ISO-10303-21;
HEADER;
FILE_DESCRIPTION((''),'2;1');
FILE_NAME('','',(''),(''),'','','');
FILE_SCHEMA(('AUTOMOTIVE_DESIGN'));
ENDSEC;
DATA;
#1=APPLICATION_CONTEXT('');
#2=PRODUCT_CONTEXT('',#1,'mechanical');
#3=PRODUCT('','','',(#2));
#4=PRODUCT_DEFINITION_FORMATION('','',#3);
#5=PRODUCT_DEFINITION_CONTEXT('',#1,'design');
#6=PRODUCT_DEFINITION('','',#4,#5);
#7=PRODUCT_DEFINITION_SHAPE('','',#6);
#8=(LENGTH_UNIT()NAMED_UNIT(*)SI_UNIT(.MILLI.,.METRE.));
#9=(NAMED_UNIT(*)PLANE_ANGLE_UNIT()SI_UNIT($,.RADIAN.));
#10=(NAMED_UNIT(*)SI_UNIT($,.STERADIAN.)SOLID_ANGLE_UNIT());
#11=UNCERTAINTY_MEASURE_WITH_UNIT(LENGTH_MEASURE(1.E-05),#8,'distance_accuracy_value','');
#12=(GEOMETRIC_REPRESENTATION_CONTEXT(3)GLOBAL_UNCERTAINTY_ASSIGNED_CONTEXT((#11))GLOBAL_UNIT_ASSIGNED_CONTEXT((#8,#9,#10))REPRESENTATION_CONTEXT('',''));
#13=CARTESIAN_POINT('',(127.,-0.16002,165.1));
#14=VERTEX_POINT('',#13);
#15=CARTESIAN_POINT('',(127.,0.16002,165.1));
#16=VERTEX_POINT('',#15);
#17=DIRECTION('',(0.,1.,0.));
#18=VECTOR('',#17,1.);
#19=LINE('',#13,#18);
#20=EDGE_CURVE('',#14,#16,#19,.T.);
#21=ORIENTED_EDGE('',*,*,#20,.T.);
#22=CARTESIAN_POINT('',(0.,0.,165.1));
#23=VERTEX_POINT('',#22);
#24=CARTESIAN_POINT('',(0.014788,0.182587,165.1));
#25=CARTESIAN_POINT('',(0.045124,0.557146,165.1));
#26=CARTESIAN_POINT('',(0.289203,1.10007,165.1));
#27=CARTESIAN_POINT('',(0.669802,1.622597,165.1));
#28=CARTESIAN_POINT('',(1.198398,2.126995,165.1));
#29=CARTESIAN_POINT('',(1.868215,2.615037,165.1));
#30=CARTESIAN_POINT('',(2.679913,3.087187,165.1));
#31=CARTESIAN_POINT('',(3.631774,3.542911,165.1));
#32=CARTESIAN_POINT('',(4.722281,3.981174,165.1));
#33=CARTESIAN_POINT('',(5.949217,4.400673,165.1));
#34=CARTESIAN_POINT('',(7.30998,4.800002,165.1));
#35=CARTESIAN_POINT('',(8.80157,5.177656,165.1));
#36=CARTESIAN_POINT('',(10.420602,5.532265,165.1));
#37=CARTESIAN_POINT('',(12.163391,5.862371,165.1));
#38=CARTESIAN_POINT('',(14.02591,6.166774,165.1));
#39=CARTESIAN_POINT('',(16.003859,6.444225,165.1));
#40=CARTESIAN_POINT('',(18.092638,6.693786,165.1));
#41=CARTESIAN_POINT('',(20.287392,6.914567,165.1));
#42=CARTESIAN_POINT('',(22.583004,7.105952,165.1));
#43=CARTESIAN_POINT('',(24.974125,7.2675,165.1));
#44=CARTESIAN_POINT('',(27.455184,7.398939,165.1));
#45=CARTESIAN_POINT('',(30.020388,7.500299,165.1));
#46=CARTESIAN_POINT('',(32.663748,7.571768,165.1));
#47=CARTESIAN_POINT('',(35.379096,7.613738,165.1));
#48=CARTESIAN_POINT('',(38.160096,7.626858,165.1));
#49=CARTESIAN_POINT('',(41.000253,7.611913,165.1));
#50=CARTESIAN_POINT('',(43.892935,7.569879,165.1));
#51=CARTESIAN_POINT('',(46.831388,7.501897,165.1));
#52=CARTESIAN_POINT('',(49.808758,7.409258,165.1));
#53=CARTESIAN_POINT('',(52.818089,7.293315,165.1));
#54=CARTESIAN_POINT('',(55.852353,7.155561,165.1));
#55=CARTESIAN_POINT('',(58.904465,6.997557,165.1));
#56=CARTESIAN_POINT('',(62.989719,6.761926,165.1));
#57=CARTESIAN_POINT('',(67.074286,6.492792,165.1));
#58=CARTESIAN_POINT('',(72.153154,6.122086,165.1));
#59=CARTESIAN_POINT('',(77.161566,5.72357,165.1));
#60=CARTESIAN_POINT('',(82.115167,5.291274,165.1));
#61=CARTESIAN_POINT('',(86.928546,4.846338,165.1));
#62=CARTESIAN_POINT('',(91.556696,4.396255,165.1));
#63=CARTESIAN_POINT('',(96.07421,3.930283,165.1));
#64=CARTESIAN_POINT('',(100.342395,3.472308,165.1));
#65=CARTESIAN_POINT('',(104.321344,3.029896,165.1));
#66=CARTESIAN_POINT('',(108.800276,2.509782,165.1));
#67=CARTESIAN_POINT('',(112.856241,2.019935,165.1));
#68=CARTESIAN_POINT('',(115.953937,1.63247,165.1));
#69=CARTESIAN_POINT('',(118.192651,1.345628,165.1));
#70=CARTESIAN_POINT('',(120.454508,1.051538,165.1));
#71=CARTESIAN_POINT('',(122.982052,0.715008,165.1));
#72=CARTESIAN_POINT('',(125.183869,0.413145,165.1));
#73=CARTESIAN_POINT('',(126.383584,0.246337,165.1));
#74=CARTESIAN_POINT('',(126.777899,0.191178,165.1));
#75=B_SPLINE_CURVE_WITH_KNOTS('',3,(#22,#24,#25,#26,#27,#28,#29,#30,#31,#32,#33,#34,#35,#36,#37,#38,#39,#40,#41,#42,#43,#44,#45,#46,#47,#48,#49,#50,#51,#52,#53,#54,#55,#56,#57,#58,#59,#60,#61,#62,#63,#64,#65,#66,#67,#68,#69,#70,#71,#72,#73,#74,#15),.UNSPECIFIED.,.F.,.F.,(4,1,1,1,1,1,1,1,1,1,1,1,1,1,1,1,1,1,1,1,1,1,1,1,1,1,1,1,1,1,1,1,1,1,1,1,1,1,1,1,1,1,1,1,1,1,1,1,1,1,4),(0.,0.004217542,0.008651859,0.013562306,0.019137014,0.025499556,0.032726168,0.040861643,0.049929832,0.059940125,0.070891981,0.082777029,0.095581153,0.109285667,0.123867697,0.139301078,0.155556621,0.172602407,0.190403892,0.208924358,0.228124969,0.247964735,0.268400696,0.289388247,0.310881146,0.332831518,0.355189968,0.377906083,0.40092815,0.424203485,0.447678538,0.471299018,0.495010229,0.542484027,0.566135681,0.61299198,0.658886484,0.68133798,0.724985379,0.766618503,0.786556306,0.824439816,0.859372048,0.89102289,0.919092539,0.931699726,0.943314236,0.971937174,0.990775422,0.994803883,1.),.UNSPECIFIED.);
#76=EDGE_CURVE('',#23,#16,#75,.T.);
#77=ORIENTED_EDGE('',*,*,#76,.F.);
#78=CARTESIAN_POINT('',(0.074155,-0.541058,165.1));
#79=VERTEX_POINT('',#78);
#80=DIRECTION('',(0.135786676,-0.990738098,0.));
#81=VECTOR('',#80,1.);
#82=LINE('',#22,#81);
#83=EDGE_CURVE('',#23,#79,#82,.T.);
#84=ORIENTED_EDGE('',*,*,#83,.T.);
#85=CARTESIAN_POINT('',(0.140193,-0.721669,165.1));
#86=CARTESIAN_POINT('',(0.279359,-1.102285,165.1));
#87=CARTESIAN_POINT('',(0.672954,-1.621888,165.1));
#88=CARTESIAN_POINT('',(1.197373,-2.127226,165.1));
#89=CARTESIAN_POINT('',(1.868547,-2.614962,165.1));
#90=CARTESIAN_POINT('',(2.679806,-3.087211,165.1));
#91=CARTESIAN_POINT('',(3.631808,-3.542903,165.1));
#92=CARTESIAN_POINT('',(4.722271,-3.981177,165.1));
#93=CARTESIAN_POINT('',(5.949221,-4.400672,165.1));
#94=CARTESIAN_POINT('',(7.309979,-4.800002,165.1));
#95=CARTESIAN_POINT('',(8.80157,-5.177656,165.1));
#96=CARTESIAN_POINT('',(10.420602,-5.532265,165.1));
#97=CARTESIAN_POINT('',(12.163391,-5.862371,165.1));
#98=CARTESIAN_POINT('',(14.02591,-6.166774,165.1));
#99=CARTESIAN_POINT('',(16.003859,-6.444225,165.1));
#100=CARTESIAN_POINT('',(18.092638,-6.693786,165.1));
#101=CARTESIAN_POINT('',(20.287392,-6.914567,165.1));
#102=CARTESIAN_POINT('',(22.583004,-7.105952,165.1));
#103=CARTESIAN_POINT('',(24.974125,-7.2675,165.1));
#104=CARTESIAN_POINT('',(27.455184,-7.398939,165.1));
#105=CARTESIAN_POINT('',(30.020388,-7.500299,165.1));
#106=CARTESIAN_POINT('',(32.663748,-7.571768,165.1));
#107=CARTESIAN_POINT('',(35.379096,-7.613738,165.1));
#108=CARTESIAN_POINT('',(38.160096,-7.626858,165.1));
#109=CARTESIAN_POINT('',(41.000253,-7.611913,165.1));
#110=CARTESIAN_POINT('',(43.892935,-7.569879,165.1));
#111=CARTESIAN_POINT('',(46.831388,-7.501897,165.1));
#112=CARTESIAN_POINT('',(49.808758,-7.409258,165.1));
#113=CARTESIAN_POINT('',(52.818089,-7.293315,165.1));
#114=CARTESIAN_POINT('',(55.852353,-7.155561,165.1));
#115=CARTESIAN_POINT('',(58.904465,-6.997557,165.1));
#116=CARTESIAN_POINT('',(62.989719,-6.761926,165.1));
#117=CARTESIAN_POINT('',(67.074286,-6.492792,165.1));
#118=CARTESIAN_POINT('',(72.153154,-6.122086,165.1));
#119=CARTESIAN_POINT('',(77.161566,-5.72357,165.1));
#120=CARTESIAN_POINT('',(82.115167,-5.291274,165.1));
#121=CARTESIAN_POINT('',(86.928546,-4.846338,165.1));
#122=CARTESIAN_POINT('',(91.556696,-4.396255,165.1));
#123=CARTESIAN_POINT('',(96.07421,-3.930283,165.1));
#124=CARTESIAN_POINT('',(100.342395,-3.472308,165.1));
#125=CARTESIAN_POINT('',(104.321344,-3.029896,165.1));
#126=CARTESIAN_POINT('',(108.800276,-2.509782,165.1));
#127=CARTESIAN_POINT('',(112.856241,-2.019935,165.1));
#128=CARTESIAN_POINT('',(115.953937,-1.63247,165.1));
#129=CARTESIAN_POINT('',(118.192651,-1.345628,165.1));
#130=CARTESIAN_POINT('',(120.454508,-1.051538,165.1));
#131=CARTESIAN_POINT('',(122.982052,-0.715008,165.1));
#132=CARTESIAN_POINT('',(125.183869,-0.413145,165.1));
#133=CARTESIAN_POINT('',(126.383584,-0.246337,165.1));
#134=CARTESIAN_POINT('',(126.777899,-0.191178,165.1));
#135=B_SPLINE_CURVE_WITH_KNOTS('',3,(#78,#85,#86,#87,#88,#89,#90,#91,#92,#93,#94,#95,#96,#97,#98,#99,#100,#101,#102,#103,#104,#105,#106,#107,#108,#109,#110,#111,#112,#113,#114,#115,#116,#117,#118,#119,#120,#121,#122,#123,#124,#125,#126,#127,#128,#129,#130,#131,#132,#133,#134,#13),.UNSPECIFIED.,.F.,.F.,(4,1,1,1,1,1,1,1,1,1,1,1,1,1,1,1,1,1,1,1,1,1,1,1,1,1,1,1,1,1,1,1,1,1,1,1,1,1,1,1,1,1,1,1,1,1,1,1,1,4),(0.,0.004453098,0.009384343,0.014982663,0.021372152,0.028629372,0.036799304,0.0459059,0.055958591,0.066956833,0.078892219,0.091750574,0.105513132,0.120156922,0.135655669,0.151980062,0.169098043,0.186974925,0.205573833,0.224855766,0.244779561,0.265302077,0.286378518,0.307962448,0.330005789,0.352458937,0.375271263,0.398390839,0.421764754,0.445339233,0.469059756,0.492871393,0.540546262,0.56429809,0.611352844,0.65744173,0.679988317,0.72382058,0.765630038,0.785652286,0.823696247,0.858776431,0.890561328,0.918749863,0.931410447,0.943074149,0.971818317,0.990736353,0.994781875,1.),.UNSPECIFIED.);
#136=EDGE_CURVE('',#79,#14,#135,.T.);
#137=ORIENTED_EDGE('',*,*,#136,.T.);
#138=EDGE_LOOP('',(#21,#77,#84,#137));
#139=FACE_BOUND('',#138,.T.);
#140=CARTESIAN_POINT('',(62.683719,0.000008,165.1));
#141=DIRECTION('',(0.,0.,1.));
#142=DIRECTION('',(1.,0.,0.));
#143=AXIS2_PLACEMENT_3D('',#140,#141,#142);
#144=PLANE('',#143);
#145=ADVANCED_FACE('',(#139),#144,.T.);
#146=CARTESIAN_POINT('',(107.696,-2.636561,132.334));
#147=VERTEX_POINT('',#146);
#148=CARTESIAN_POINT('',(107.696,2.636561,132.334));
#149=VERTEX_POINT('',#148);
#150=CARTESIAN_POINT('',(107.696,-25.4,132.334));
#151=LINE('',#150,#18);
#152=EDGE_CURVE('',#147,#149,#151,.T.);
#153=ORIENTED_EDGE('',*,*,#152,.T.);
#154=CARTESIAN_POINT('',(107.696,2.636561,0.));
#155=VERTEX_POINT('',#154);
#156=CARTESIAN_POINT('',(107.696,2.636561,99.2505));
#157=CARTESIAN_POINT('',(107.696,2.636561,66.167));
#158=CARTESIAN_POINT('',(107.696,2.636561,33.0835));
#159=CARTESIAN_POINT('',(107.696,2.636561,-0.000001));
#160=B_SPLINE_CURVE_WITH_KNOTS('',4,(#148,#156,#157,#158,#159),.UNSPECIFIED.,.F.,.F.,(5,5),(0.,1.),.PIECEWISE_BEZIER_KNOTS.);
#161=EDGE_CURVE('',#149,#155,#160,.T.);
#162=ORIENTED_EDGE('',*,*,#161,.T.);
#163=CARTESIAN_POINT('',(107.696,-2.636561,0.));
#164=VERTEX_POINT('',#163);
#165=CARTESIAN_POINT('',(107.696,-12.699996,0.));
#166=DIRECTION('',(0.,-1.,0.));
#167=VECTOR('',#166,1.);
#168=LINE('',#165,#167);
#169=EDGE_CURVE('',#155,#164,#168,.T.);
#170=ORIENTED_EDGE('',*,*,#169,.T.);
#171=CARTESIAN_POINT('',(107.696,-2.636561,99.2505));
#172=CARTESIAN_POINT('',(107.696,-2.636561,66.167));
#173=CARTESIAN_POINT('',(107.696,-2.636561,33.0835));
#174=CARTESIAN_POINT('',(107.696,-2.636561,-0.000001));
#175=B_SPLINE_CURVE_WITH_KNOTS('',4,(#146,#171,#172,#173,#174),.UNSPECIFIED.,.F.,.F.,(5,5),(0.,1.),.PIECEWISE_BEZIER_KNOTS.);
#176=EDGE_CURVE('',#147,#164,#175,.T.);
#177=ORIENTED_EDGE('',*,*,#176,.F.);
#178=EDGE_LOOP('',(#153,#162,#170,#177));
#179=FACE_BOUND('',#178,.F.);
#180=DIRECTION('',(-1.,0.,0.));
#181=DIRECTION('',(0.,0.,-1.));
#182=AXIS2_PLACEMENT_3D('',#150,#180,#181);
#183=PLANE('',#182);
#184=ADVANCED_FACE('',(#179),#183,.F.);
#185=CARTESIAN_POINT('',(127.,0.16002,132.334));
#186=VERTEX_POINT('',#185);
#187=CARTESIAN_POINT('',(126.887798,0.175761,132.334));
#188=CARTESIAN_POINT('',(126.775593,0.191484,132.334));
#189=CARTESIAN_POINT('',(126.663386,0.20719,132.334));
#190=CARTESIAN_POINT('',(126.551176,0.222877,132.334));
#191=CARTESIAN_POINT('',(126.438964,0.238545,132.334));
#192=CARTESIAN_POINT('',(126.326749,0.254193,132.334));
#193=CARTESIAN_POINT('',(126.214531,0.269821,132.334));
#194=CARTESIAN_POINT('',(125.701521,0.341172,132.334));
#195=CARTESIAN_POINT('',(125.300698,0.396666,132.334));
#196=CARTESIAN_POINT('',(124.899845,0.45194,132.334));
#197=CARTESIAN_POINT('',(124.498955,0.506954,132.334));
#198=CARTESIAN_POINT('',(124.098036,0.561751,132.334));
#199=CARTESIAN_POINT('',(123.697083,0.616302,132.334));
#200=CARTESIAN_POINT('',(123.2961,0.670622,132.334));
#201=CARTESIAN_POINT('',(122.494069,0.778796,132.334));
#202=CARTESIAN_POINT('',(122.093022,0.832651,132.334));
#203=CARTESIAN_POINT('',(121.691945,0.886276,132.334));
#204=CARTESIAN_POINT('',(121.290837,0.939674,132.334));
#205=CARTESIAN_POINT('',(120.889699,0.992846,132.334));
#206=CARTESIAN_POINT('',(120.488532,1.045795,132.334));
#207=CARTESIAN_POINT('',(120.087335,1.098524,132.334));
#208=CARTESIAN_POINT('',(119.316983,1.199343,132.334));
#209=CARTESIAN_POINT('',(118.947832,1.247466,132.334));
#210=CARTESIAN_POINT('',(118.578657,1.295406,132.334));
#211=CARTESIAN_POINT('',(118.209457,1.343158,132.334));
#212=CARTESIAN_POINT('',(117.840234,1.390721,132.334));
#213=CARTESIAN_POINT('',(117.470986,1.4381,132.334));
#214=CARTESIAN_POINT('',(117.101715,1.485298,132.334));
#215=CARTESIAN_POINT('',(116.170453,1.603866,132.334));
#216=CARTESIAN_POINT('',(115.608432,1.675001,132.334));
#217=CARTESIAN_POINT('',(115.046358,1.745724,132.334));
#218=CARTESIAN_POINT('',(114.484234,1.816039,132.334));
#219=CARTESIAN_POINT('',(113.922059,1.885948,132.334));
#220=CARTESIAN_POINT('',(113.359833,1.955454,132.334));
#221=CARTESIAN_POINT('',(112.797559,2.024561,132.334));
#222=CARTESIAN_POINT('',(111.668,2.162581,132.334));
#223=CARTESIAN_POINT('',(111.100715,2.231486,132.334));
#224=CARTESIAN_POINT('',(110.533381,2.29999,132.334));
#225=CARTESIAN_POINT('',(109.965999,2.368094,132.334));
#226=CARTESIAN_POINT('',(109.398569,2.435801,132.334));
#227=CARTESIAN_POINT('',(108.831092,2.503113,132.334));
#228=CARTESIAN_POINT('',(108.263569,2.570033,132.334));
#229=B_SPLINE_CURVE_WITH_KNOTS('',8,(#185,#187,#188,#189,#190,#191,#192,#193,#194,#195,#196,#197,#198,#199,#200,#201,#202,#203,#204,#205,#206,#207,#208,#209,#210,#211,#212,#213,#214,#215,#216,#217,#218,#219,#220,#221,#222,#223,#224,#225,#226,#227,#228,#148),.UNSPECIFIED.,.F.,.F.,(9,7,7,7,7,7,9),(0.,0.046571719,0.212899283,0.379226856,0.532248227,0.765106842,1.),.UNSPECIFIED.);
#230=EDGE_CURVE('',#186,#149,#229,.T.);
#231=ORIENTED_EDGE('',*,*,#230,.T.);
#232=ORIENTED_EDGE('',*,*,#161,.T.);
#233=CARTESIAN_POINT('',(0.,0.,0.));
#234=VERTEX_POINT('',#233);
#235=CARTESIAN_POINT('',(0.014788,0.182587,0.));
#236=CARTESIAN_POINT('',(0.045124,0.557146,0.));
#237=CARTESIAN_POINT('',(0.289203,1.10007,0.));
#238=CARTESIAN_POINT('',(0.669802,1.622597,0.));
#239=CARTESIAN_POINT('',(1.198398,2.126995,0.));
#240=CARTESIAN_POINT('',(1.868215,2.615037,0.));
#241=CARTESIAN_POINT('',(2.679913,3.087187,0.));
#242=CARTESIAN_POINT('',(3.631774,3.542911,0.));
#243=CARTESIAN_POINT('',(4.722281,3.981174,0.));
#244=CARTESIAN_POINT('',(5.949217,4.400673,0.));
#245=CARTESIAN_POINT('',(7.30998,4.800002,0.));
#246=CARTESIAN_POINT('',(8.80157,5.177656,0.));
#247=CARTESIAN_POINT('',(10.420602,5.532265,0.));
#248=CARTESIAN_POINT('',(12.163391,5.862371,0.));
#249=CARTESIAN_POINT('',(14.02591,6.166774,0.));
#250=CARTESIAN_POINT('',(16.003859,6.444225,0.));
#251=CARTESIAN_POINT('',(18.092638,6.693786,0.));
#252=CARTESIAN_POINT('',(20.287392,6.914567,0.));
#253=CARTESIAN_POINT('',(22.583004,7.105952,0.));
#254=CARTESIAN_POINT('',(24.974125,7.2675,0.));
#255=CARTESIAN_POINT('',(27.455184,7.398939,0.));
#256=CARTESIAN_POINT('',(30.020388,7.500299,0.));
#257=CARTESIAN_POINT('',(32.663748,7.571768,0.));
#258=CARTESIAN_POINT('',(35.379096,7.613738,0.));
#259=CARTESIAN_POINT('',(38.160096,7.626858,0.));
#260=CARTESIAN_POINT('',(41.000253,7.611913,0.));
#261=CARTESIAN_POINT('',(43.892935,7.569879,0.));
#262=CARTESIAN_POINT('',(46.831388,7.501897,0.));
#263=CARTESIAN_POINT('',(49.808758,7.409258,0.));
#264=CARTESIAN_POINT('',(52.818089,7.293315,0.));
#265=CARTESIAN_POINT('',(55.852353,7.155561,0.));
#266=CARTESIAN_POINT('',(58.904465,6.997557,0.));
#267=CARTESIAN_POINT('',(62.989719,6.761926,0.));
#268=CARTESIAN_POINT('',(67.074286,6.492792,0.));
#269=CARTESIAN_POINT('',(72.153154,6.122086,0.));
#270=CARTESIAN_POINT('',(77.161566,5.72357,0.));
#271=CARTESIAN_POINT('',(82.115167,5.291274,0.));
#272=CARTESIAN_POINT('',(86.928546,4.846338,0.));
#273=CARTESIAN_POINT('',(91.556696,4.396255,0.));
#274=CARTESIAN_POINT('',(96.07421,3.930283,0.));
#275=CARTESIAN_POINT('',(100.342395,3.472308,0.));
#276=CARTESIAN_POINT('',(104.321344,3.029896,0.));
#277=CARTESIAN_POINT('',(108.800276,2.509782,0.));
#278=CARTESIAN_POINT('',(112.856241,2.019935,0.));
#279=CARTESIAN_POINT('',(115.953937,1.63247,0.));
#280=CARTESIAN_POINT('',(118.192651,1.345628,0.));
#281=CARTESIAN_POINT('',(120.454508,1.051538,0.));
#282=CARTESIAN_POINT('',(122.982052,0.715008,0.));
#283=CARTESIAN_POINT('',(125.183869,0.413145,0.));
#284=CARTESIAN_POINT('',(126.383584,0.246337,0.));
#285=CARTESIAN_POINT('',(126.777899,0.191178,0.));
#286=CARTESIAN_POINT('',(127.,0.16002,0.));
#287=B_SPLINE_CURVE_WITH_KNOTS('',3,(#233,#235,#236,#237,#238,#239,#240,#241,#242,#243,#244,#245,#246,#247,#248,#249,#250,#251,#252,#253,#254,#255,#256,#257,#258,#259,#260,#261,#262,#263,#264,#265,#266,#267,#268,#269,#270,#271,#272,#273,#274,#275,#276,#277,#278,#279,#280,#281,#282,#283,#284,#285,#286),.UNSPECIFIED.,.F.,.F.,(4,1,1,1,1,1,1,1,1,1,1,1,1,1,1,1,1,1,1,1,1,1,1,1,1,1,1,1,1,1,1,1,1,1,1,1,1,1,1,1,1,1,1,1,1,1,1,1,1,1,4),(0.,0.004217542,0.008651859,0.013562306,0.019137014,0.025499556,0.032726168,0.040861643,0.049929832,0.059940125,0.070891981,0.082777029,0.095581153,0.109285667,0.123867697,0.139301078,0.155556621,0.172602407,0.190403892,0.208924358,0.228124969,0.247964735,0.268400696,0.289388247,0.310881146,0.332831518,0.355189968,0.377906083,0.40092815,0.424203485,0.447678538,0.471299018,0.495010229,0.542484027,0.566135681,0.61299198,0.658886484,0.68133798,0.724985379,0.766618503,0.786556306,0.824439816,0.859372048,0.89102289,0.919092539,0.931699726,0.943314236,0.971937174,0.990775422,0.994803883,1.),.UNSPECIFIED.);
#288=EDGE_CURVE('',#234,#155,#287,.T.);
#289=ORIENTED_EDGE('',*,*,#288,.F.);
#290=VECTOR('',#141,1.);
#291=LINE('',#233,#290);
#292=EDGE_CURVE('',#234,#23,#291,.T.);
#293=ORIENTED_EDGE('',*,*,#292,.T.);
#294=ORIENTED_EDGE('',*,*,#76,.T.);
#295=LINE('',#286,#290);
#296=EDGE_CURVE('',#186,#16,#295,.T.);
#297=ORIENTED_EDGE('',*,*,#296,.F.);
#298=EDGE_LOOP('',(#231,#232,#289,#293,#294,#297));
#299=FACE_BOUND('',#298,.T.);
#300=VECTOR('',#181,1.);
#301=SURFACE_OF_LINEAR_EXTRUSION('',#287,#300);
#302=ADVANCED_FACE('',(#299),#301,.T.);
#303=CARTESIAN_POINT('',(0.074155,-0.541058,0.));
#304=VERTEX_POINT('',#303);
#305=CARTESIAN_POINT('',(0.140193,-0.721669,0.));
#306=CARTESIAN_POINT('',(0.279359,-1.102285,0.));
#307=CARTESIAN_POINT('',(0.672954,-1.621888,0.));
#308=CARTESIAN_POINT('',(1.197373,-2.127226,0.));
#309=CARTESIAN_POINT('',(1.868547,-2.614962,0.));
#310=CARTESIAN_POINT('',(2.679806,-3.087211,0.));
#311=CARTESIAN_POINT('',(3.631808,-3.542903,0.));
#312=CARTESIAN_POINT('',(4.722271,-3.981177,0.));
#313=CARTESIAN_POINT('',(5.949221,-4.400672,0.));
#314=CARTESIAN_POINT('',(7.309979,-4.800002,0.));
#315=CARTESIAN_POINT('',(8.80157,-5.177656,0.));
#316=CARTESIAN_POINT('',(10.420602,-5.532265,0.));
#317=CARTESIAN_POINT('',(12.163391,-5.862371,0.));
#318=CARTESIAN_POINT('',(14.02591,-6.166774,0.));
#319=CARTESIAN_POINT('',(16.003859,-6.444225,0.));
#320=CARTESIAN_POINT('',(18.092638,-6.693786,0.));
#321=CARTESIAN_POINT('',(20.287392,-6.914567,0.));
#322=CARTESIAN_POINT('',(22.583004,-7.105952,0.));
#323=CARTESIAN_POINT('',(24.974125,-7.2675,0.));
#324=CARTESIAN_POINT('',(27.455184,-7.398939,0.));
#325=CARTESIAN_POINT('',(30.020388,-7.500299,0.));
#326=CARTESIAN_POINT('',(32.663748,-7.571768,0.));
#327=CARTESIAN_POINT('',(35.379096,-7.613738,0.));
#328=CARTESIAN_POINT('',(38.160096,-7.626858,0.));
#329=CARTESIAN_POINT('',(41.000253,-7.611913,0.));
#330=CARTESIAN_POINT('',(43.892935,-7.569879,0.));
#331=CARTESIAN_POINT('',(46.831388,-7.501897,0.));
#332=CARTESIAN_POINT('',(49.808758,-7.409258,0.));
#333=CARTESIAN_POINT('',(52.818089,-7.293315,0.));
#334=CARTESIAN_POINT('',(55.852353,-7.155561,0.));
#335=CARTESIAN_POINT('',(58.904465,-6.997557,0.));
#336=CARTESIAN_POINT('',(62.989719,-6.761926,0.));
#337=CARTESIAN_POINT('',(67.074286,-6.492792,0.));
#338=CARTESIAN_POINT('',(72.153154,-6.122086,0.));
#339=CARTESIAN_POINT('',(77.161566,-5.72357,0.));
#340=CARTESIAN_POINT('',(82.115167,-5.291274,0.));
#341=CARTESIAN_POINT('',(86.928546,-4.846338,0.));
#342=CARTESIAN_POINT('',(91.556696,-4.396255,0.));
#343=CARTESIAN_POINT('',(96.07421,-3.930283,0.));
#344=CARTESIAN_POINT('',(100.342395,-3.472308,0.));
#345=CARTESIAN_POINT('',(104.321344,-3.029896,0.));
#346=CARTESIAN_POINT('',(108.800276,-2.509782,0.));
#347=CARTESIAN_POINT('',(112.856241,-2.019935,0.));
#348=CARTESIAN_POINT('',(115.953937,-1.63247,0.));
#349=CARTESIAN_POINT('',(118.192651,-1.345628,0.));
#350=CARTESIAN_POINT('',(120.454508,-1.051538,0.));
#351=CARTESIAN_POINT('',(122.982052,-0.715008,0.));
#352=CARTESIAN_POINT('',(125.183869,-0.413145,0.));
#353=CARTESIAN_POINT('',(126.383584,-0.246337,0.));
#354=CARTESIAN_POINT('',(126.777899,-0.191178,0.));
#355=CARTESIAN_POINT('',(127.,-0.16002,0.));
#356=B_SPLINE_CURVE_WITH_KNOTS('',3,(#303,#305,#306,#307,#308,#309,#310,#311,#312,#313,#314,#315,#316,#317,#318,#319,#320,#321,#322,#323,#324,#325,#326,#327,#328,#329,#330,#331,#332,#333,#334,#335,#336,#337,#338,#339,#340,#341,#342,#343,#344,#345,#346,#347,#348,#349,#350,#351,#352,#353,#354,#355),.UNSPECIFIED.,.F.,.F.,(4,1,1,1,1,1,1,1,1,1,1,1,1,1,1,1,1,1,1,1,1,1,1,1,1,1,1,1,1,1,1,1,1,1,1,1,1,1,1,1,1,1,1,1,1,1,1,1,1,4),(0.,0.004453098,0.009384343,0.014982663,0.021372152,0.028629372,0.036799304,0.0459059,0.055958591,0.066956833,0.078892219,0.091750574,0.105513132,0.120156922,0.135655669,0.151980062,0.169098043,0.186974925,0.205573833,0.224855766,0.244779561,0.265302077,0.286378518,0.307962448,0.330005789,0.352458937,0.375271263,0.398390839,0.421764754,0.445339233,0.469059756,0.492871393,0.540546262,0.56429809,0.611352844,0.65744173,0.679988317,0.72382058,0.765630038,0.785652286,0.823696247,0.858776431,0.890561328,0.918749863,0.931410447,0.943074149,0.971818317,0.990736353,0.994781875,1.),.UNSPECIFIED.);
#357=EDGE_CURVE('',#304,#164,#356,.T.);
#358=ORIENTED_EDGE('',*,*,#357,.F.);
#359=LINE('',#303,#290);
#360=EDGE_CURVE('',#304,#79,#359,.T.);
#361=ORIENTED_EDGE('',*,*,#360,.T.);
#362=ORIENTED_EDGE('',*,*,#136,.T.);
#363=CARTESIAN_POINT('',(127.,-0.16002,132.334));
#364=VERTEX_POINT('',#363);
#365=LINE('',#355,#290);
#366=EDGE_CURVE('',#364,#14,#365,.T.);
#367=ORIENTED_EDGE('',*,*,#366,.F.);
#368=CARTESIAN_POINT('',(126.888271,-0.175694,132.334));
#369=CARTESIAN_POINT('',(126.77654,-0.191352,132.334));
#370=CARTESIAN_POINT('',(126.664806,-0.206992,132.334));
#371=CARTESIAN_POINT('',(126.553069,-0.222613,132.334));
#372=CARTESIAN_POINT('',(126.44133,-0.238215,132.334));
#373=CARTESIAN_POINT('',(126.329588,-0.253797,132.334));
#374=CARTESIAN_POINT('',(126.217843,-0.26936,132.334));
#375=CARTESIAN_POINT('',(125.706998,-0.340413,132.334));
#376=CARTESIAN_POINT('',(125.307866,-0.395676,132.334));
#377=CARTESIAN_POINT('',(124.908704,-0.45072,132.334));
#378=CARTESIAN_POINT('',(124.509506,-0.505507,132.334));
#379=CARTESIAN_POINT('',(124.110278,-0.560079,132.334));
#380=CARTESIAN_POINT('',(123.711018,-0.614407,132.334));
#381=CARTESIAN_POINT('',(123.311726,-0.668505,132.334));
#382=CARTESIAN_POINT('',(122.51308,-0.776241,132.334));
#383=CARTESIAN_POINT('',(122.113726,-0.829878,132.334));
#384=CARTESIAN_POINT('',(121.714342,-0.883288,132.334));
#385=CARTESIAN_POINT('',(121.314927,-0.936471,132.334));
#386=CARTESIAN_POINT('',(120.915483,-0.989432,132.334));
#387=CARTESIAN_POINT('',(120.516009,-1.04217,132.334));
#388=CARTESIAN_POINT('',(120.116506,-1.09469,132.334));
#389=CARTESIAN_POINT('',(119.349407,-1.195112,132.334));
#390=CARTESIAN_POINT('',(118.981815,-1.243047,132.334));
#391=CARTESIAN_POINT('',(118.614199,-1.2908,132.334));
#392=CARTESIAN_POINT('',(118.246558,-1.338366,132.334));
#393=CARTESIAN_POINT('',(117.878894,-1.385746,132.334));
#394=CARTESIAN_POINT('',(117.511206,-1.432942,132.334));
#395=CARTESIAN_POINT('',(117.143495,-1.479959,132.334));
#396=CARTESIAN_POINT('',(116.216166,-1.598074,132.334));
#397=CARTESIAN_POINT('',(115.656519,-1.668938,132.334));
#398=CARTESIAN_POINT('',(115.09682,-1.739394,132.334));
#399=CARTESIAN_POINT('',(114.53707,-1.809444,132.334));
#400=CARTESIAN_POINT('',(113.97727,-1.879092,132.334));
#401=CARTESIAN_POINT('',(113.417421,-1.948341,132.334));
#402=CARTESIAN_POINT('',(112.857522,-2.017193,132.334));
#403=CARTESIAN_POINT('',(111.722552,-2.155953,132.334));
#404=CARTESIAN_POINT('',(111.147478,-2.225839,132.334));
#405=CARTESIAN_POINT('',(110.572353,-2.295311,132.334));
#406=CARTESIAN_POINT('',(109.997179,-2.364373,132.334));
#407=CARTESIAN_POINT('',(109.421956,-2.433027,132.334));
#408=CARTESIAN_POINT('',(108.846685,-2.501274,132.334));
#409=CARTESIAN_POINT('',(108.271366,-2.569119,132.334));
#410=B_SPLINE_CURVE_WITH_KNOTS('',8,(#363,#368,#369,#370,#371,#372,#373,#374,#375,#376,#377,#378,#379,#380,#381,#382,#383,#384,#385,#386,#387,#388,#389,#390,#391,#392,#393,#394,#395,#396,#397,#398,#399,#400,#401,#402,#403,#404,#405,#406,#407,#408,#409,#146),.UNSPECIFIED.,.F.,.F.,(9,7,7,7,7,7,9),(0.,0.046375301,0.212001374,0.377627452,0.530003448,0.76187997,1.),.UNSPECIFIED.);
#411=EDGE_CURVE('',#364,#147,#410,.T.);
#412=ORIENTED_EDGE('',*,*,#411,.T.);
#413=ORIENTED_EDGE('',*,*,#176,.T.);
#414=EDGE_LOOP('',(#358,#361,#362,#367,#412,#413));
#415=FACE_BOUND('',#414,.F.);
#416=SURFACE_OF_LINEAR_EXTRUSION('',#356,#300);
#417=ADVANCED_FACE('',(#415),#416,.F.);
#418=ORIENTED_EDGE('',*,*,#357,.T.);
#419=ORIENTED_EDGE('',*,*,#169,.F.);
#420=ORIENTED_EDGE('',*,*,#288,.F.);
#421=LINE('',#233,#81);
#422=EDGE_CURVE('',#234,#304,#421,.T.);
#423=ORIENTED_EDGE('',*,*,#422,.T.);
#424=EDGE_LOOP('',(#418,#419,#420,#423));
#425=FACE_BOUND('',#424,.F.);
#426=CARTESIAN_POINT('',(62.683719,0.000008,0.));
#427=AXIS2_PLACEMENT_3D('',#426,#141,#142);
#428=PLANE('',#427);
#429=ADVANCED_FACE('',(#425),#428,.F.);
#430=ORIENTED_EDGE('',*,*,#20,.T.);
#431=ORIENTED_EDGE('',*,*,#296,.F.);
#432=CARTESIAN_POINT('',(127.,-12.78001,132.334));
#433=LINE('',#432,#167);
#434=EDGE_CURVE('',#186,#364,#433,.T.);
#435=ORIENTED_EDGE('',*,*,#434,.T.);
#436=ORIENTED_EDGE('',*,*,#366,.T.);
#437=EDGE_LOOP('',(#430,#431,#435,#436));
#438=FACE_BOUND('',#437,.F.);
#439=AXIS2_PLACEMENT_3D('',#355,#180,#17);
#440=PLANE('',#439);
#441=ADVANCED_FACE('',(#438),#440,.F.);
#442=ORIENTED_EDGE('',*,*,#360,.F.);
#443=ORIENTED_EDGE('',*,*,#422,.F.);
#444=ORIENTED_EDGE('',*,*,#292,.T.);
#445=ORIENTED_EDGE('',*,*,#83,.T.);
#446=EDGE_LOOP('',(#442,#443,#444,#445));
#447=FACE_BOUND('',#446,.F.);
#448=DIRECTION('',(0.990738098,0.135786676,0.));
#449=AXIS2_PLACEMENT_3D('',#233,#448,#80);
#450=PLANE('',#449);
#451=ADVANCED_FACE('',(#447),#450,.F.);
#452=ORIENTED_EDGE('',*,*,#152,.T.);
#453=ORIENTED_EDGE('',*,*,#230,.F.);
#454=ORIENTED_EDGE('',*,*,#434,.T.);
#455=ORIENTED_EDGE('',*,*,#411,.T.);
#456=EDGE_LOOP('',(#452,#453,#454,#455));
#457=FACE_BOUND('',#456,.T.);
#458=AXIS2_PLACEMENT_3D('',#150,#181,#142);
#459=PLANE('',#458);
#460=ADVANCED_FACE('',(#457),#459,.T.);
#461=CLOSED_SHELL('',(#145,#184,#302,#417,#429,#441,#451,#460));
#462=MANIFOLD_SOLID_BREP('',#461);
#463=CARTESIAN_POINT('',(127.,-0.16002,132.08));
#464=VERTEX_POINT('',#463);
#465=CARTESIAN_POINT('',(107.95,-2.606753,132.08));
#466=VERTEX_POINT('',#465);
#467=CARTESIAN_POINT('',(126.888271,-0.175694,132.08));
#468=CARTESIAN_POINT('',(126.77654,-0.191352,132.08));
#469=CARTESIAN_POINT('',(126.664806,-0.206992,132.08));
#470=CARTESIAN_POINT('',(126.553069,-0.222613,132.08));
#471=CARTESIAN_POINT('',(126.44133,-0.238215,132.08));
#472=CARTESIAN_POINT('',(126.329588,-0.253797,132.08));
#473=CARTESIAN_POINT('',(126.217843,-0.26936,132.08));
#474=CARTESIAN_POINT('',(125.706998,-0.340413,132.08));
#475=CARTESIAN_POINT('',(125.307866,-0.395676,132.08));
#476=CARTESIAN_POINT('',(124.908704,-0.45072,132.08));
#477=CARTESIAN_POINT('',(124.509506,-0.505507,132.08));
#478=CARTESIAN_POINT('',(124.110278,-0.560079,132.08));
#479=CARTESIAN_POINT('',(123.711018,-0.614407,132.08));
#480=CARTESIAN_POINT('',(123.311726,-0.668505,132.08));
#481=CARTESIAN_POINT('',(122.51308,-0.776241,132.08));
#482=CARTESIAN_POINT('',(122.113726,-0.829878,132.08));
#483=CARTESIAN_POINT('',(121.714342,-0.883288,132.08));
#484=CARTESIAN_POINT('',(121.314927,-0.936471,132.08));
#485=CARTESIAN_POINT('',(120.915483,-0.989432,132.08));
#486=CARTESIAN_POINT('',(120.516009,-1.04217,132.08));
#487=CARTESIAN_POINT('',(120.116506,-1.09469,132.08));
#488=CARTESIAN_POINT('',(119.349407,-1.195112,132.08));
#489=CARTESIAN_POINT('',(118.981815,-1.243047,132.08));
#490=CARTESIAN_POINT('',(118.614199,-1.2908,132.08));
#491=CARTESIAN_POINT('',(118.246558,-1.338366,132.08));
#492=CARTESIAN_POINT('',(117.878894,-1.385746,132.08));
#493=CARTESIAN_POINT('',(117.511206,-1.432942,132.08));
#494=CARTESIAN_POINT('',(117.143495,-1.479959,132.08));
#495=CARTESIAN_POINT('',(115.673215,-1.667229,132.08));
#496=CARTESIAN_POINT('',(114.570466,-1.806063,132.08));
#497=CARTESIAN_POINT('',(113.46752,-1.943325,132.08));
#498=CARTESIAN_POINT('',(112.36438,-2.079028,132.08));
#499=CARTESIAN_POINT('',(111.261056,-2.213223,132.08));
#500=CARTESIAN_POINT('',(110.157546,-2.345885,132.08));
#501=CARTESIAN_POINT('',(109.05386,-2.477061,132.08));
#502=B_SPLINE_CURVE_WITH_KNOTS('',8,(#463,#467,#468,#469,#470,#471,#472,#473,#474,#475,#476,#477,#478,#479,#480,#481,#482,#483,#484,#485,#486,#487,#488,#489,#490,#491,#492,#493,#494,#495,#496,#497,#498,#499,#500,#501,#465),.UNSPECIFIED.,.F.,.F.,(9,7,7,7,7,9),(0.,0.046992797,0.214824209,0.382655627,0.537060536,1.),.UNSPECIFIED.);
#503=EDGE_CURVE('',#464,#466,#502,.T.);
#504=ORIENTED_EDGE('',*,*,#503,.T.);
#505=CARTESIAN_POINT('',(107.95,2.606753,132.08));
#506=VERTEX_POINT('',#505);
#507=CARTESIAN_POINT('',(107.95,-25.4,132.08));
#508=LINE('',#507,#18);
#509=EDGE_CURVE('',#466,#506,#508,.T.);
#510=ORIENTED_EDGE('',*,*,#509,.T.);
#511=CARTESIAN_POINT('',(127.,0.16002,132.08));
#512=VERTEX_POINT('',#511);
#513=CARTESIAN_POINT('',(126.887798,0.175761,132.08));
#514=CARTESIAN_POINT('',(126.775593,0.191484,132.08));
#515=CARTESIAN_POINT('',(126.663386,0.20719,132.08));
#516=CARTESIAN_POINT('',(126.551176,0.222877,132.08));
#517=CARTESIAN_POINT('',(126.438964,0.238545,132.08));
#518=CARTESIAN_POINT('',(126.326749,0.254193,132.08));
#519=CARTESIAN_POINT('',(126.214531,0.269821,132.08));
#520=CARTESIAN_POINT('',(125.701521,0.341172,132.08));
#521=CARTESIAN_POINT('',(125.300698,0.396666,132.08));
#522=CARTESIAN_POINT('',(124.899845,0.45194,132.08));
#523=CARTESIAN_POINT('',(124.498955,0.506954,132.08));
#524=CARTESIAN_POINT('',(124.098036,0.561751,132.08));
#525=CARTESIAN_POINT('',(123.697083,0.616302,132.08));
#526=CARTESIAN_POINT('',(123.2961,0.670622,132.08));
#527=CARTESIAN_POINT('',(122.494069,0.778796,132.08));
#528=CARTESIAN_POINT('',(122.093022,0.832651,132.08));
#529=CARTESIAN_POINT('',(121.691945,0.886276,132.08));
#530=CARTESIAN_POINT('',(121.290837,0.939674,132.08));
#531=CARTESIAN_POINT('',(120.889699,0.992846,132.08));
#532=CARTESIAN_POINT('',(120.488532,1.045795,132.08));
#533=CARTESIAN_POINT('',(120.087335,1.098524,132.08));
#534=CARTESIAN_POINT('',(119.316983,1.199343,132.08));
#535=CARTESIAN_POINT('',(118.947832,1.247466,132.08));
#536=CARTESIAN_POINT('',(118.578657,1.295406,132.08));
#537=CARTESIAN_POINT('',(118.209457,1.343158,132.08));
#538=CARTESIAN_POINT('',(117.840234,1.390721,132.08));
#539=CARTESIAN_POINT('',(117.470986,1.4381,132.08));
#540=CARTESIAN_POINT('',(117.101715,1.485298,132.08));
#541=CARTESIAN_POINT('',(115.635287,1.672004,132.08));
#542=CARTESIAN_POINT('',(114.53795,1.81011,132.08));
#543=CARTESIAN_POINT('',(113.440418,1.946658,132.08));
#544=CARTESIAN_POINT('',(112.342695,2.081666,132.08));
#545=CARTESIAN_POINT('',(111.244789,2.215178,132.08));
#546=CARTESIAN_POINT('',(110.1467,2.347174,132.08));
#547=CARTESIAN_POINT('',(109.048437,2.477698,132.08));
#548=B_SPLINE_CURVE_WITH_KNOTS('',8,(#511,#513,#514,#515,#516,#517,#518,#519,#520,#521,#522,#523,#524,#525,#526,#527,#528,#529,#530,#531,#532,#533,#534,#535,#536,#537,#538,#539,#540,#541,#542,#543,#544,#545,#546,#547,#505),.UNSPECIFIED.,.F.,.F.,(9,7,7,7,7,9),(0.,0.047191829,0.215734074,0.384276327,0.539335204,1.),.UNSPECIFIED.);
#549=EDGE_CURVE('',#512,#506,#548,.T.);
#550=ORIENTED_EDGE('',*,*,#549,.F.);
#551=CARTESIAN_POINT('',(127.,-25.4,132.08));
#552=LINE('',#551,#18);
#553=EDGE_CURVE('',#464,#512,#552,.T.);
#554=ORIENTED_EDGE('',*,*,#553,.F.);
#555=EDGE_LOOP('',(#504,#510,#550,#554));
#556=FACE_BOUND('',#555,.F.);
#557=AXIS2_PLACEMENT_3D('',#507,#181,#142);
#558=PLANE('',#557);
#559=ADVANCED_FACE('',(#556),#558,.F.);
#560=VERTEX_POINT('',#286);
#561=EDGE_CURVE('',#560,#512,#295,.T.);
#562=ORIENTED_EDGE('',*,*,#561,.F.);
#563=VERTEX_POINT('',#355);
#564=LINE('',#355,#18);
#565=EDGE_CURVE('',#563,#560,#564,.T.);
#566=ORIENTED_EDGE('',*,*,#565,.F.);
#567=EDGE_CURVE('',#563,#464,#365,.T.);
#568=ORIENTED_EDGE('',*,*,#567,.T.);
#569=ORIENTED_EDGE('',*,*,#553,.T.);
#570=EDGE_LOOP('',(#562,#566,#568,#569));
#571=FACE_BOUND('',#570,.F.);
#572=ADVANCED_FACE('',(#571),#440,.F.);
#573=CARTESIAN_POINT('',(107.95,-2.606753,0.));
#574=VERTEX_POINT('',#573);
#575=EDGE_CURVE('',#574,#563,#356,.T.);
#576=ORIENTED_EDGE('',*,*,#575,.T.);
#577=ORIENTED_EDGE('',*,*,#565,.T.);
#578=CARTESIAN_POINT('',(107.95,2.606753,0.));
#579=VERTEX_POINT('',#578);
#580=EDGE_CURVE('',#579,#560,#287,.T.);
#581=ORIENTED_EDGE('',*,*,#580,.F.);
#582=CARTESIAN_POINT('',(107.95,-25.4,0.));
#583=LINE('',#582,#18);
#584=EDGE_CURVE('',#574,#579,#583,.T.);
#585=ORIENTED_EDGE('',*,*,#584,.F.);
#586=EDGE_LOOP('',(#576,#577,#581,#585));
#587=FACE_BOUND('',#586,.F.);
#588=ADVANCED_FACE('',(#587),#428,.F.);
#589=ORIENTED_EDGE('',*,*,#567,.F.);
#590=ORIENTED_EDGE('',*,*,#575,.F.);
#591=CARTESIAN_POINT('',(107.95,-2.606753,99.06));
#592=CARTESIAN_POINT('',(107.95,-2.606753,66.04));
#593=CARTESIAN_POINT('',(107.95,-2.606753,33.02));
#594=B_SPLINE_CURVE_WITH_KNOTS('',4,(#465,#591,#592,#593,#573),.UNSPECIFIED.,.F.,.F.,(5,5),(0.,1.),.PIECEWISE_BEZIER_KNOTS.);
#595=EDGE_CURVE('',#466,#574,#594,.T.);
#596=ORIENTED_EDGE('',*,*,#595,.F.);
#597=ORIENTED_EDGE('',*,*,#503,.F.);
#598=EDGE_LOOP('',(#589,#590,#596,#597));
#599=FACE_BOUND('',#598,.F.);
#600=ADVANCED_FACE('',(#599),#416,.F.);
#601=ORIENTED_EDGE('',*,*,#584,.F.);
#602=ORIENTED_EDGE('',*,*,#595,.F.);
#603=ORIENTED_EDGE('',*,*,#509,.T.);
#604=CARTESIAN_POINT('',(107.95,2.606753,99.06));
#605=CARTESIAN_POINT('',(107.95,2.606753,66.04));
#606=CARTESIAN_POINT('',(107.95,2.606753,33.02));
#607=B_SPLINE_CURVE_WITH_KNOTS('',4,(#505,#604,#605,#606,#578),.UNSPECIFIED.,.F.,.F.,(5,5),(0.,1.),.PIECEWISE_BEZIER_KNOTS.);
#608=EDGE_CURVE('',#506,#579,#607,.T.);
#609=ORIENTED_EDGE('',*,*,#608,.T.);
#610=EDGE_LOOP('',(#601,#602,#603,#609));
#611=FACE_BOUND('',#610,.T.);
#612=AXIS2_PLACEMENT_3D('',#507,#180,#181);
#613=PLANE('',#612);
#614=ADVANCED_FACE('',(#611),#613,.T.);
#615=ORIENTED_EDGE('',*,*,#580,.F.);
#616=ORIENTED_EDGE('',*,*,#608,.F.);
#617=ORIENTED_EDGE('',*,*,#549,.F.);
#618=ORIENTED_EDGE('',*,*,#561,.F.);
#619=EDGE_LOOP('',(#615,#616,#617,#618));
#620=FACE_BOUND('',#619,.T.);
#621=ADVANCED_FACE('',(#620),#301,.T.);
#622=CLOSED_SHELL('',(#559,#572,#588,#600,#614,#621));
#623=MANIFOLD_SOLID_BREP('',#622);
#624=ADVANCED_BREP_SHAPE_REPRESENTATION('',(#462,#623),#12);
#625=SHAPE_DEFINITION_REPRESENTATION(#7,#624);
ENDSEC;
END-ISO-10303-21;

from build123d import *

# Parameters (mm, degrees)
BOSS_EXTRUDE1_DEPTH          = 165.1
CUT_EXTRUDE_THIN1_DEPTH      = 25.4
CUT_EXTRUDE_THIN1_DEPTH_BACK = 25.4
SKETCH2_W                    = 19.558
SKETCH2_H                    = 132.588
SKETCH2_W_2                  = 19.05
SKETCH2_H_2                  = 132.08


with BuildPart() as part:
    # Sketch1 → Boss-Extrude1 (new body)
    with BuildSketch(Plane.XY):
        with BuildLine():
            Line((0, 0), (0.0741553, -0.5410581))
            add(Edge.make_bspline(
                [(0.0741553, -0.5410581), (0.140193116, -0.721669288), (0.279359485, -1.102284586), (0.672953866, -1.621887631), (1.197372717, -2.127225876), (1.868546979, -2.614961799), (2.679805959, -3.087211333), (3.631807621, -3.542903378), (4.722270879, -3.981176782), (5.949220629, -4.400672498), (7.309979196, -4.800002189), (8.801569979, -5.177656111), (10.420601607, -5.532264877), (12.163391442, -5.862371272), (14.025910144, -6.166774384), (16.003859244, -6.444224904), (18.092638104, -6.693786188), (20.287392365, -6.914566798), (22.583004305, -7.105952415), (24.974124891, -7.267500336), (27.455183748, -7.398939329), (30.020387925, -7.50029876), (32.6637483, -7.571768113), (35.37909603, -7.613737924), (38.16009598, -7.6268579), (41.000252855, -7.611912582), (43.892935104, -7.569879311), (46.831388406, -7.501897019), (49.80875771, -7.409257979), (52.818088887, -7.293315259), (55.852352747, -7.155560507), (58.904465333, -6.997557268), (62.989718699, -6.76192592), (67.07428575, -6.492791876), (72.153153866, -6.122085821), (77.161565564, -5.723570073), (82.115167215, -5.291274037), (86.928545971, -4.846337775), (91.556695876, -4.396255017), (96.074209839, -3.930282916), (100.342395257, -3.472307631), (104.321343716, -3.029895637), (108.800275666, -2.509782412), (112.856241075, -2.01993467), (115.953937365, -1.632470119), (118.192651038, -1.345627894), (120.454508393, -1.051537975), (122.982051787, -0.715008334), (125.183869328, -0.413145258), (126.383583987, -0.246336664), (126.777898618, -0.191178133), (127, -0.16002)],
                knots=[0, 0, 0, 0, 0.004453098, 0.009384343, 0.014982663, 0.021372152, 0.028629372, 0.036799304, 0.0459059, 0.055958591, 0.066956833, 0.078892219, 0.091750574, 0.105513132, 0.120156922, 0.135655669, 0.151980062, 0.169098043, 0.186974925, 0.205573833, 0.224855766, 0.244779561, 0.265302077, 0.286378518, 0.307962448, 0.330005789, 0.352458937, 0.375271263, 0.398390839, 0.421764754, 0.445339233, 0.469059756, 0.492871393, 0.540546262, 0.56429809, 0.611352844, 0.65744173, 0.679988317, 0.72382058, 0.765630038, 0.785652286, 0.823696247, 0.858776431, 0.890561328, 0.918749863, 0.931410447, 0.943074149, 0.971818317, 0.990736353, 0.994781875, 1, 1, 1, 1], degree=3))
            Line((127, -0.16002), (127, 0.16002))
            add(Edge.make_bspline(
                [(0, 0), (0.014787865, 0.182587172), (0.045123671, 0.55714623), (0.289202643, 1.100069783), (0.669802119, 1.622596804), (1.198397925, 2.126995195), (1.868214507, 2.615036608), (2.679912557, 3.087187348), (3.631773923, 3.542910961), (4.72228138, 3.981174419), (5.9492174, 4.400673225), (7.309980177, 4.800001969), (8.801569684, 5.177656177), (10.420601695, 5.532264857), (12.163391416, 5.862371278), (14.025910152, 6.166774382), (16.003859242, 6.444224905), (18.092638105, 6.693786188), (20.287392365, 6.914566798), (22.583004305, 7.105952415), (24.974124891, 7.267500336), (27.455183748, 7.398939329), (30.020387925, 7.50029876), (32.6637483, 7.571768113), (35.37909603, 7.613737924), (38.16009598, 7.6268579), (41.000252855, 7.611912582), (43.892935104, 7.569879311), (46.831388406, 7.501897019), (49.80875771, 7.409257979), (52.818088887, 7.293315259), (55.852352747, 7.155560507), (58.904465333, 6.997557268), (62.989718699, 6.76192592), (67.07428575, 6.492791876), (72.153153866, 6.122085821), (77.161565564, 5.723570073), (82.115167215, 5.291274037), (86.928545971, 4.846337775), (91.556695876, 4.396255017), (96.074209839, 3.930282916), (100.342395257, 3.472307631), (104.321343716, 3.029895637), (108.800275666, 2.509782412), (112.856241075, 2.01993467), (115.953937365, 1.632470119), (118.192651038, 1.345627894), (120.454508393, 1.051537975), (122.982051787, 0.715008334), (125.183869328, 0.413145258), (126.383583987, 0.246336664), (126.777898618, 0.191178133), (127, 0.16002)],
                knots=[0, 0, 0, 0, 0.004217542, 0.008651859, 0.013562306, 0.019137014, 0.025499556, 0.032726168, 0.040861643, 0.049929832, 0.059940125, 0.070891981, 0.082777029, 0.095581153, 0.109285667, 0.123867697, 0.139301078, 0.155556621, 0.172602407, 0.190403892, 0.208924358, 0.228124969, 0.247964735, 0.268400696, 0.289388247, 0.310881146, 0.332831518, 0.355189968, 0.377906083, 0.40092815, 0.424203485, 0.447678538, 0.471299018, 0.495010229, 0.542484027, 0.566135681, 0.61299198, 0.658886484, 0.68133798, 0.724985379, 0.766618503, 0.786556306, 0.824439816, 0.859372048, 0.89102289, 0.919092539, 0.931699726, 0.943314236, 0.971937174, 0.990775422, 0.994803883, 1, 1, 1, 1], degree=3))
        make_face()
    extrude(amount=BOSS_EXTRUDE1_DEPTH)

    # Sketch2 → Cut-Extrude-Thin1 (cut, two sides: drawn at the far end of the back side and taken through both)
    with BuildSketch(Plane(origin=(0, 0, 0), x_dir=(1, 0, 0), z_dir=(0, 1, 0)).offset(-CUT_EXTRUDE_THIN1_DEPTH_BACK)):
        with Locations((117.475, -66.04)):
            Rectangle(SKETCH2_W, SKETCH2_H)
        with Locations((117.475, -66.04)):
            Rectangle(SKETCH2_W_2, SKETCH2_H_2, mode=Mode.SUBTRACT)
    extrude(amount=CUT_EXTRUDE_THIN1_DEPTH + CUT_EXTRUDE_THIN1_DEPTH_BACK, mode=Mode.SUBTRACT)


with BuildPart() as cut_extrude_thin1_piece_1:
    # of the separate pieces the step leaves, piece 1, a body of its own (cut_extrude_thin1_pieces)
    add(part.part.solids().sort_by_distance((0, 0, 0))[0])


with BuildPart() as cut_extrude_thin1_piece_2:
    # of the separate pieces the step leaves, piece 2, a body of its own (cut_extrude_thin1_pieces)
    add(part.part.solids().sort_by_distance((127, 0.16002, 0))[0])


solid = Compound([cut_extrude_thin1_piece_1.part, cut_extrude_thin1_piece_2.part])
